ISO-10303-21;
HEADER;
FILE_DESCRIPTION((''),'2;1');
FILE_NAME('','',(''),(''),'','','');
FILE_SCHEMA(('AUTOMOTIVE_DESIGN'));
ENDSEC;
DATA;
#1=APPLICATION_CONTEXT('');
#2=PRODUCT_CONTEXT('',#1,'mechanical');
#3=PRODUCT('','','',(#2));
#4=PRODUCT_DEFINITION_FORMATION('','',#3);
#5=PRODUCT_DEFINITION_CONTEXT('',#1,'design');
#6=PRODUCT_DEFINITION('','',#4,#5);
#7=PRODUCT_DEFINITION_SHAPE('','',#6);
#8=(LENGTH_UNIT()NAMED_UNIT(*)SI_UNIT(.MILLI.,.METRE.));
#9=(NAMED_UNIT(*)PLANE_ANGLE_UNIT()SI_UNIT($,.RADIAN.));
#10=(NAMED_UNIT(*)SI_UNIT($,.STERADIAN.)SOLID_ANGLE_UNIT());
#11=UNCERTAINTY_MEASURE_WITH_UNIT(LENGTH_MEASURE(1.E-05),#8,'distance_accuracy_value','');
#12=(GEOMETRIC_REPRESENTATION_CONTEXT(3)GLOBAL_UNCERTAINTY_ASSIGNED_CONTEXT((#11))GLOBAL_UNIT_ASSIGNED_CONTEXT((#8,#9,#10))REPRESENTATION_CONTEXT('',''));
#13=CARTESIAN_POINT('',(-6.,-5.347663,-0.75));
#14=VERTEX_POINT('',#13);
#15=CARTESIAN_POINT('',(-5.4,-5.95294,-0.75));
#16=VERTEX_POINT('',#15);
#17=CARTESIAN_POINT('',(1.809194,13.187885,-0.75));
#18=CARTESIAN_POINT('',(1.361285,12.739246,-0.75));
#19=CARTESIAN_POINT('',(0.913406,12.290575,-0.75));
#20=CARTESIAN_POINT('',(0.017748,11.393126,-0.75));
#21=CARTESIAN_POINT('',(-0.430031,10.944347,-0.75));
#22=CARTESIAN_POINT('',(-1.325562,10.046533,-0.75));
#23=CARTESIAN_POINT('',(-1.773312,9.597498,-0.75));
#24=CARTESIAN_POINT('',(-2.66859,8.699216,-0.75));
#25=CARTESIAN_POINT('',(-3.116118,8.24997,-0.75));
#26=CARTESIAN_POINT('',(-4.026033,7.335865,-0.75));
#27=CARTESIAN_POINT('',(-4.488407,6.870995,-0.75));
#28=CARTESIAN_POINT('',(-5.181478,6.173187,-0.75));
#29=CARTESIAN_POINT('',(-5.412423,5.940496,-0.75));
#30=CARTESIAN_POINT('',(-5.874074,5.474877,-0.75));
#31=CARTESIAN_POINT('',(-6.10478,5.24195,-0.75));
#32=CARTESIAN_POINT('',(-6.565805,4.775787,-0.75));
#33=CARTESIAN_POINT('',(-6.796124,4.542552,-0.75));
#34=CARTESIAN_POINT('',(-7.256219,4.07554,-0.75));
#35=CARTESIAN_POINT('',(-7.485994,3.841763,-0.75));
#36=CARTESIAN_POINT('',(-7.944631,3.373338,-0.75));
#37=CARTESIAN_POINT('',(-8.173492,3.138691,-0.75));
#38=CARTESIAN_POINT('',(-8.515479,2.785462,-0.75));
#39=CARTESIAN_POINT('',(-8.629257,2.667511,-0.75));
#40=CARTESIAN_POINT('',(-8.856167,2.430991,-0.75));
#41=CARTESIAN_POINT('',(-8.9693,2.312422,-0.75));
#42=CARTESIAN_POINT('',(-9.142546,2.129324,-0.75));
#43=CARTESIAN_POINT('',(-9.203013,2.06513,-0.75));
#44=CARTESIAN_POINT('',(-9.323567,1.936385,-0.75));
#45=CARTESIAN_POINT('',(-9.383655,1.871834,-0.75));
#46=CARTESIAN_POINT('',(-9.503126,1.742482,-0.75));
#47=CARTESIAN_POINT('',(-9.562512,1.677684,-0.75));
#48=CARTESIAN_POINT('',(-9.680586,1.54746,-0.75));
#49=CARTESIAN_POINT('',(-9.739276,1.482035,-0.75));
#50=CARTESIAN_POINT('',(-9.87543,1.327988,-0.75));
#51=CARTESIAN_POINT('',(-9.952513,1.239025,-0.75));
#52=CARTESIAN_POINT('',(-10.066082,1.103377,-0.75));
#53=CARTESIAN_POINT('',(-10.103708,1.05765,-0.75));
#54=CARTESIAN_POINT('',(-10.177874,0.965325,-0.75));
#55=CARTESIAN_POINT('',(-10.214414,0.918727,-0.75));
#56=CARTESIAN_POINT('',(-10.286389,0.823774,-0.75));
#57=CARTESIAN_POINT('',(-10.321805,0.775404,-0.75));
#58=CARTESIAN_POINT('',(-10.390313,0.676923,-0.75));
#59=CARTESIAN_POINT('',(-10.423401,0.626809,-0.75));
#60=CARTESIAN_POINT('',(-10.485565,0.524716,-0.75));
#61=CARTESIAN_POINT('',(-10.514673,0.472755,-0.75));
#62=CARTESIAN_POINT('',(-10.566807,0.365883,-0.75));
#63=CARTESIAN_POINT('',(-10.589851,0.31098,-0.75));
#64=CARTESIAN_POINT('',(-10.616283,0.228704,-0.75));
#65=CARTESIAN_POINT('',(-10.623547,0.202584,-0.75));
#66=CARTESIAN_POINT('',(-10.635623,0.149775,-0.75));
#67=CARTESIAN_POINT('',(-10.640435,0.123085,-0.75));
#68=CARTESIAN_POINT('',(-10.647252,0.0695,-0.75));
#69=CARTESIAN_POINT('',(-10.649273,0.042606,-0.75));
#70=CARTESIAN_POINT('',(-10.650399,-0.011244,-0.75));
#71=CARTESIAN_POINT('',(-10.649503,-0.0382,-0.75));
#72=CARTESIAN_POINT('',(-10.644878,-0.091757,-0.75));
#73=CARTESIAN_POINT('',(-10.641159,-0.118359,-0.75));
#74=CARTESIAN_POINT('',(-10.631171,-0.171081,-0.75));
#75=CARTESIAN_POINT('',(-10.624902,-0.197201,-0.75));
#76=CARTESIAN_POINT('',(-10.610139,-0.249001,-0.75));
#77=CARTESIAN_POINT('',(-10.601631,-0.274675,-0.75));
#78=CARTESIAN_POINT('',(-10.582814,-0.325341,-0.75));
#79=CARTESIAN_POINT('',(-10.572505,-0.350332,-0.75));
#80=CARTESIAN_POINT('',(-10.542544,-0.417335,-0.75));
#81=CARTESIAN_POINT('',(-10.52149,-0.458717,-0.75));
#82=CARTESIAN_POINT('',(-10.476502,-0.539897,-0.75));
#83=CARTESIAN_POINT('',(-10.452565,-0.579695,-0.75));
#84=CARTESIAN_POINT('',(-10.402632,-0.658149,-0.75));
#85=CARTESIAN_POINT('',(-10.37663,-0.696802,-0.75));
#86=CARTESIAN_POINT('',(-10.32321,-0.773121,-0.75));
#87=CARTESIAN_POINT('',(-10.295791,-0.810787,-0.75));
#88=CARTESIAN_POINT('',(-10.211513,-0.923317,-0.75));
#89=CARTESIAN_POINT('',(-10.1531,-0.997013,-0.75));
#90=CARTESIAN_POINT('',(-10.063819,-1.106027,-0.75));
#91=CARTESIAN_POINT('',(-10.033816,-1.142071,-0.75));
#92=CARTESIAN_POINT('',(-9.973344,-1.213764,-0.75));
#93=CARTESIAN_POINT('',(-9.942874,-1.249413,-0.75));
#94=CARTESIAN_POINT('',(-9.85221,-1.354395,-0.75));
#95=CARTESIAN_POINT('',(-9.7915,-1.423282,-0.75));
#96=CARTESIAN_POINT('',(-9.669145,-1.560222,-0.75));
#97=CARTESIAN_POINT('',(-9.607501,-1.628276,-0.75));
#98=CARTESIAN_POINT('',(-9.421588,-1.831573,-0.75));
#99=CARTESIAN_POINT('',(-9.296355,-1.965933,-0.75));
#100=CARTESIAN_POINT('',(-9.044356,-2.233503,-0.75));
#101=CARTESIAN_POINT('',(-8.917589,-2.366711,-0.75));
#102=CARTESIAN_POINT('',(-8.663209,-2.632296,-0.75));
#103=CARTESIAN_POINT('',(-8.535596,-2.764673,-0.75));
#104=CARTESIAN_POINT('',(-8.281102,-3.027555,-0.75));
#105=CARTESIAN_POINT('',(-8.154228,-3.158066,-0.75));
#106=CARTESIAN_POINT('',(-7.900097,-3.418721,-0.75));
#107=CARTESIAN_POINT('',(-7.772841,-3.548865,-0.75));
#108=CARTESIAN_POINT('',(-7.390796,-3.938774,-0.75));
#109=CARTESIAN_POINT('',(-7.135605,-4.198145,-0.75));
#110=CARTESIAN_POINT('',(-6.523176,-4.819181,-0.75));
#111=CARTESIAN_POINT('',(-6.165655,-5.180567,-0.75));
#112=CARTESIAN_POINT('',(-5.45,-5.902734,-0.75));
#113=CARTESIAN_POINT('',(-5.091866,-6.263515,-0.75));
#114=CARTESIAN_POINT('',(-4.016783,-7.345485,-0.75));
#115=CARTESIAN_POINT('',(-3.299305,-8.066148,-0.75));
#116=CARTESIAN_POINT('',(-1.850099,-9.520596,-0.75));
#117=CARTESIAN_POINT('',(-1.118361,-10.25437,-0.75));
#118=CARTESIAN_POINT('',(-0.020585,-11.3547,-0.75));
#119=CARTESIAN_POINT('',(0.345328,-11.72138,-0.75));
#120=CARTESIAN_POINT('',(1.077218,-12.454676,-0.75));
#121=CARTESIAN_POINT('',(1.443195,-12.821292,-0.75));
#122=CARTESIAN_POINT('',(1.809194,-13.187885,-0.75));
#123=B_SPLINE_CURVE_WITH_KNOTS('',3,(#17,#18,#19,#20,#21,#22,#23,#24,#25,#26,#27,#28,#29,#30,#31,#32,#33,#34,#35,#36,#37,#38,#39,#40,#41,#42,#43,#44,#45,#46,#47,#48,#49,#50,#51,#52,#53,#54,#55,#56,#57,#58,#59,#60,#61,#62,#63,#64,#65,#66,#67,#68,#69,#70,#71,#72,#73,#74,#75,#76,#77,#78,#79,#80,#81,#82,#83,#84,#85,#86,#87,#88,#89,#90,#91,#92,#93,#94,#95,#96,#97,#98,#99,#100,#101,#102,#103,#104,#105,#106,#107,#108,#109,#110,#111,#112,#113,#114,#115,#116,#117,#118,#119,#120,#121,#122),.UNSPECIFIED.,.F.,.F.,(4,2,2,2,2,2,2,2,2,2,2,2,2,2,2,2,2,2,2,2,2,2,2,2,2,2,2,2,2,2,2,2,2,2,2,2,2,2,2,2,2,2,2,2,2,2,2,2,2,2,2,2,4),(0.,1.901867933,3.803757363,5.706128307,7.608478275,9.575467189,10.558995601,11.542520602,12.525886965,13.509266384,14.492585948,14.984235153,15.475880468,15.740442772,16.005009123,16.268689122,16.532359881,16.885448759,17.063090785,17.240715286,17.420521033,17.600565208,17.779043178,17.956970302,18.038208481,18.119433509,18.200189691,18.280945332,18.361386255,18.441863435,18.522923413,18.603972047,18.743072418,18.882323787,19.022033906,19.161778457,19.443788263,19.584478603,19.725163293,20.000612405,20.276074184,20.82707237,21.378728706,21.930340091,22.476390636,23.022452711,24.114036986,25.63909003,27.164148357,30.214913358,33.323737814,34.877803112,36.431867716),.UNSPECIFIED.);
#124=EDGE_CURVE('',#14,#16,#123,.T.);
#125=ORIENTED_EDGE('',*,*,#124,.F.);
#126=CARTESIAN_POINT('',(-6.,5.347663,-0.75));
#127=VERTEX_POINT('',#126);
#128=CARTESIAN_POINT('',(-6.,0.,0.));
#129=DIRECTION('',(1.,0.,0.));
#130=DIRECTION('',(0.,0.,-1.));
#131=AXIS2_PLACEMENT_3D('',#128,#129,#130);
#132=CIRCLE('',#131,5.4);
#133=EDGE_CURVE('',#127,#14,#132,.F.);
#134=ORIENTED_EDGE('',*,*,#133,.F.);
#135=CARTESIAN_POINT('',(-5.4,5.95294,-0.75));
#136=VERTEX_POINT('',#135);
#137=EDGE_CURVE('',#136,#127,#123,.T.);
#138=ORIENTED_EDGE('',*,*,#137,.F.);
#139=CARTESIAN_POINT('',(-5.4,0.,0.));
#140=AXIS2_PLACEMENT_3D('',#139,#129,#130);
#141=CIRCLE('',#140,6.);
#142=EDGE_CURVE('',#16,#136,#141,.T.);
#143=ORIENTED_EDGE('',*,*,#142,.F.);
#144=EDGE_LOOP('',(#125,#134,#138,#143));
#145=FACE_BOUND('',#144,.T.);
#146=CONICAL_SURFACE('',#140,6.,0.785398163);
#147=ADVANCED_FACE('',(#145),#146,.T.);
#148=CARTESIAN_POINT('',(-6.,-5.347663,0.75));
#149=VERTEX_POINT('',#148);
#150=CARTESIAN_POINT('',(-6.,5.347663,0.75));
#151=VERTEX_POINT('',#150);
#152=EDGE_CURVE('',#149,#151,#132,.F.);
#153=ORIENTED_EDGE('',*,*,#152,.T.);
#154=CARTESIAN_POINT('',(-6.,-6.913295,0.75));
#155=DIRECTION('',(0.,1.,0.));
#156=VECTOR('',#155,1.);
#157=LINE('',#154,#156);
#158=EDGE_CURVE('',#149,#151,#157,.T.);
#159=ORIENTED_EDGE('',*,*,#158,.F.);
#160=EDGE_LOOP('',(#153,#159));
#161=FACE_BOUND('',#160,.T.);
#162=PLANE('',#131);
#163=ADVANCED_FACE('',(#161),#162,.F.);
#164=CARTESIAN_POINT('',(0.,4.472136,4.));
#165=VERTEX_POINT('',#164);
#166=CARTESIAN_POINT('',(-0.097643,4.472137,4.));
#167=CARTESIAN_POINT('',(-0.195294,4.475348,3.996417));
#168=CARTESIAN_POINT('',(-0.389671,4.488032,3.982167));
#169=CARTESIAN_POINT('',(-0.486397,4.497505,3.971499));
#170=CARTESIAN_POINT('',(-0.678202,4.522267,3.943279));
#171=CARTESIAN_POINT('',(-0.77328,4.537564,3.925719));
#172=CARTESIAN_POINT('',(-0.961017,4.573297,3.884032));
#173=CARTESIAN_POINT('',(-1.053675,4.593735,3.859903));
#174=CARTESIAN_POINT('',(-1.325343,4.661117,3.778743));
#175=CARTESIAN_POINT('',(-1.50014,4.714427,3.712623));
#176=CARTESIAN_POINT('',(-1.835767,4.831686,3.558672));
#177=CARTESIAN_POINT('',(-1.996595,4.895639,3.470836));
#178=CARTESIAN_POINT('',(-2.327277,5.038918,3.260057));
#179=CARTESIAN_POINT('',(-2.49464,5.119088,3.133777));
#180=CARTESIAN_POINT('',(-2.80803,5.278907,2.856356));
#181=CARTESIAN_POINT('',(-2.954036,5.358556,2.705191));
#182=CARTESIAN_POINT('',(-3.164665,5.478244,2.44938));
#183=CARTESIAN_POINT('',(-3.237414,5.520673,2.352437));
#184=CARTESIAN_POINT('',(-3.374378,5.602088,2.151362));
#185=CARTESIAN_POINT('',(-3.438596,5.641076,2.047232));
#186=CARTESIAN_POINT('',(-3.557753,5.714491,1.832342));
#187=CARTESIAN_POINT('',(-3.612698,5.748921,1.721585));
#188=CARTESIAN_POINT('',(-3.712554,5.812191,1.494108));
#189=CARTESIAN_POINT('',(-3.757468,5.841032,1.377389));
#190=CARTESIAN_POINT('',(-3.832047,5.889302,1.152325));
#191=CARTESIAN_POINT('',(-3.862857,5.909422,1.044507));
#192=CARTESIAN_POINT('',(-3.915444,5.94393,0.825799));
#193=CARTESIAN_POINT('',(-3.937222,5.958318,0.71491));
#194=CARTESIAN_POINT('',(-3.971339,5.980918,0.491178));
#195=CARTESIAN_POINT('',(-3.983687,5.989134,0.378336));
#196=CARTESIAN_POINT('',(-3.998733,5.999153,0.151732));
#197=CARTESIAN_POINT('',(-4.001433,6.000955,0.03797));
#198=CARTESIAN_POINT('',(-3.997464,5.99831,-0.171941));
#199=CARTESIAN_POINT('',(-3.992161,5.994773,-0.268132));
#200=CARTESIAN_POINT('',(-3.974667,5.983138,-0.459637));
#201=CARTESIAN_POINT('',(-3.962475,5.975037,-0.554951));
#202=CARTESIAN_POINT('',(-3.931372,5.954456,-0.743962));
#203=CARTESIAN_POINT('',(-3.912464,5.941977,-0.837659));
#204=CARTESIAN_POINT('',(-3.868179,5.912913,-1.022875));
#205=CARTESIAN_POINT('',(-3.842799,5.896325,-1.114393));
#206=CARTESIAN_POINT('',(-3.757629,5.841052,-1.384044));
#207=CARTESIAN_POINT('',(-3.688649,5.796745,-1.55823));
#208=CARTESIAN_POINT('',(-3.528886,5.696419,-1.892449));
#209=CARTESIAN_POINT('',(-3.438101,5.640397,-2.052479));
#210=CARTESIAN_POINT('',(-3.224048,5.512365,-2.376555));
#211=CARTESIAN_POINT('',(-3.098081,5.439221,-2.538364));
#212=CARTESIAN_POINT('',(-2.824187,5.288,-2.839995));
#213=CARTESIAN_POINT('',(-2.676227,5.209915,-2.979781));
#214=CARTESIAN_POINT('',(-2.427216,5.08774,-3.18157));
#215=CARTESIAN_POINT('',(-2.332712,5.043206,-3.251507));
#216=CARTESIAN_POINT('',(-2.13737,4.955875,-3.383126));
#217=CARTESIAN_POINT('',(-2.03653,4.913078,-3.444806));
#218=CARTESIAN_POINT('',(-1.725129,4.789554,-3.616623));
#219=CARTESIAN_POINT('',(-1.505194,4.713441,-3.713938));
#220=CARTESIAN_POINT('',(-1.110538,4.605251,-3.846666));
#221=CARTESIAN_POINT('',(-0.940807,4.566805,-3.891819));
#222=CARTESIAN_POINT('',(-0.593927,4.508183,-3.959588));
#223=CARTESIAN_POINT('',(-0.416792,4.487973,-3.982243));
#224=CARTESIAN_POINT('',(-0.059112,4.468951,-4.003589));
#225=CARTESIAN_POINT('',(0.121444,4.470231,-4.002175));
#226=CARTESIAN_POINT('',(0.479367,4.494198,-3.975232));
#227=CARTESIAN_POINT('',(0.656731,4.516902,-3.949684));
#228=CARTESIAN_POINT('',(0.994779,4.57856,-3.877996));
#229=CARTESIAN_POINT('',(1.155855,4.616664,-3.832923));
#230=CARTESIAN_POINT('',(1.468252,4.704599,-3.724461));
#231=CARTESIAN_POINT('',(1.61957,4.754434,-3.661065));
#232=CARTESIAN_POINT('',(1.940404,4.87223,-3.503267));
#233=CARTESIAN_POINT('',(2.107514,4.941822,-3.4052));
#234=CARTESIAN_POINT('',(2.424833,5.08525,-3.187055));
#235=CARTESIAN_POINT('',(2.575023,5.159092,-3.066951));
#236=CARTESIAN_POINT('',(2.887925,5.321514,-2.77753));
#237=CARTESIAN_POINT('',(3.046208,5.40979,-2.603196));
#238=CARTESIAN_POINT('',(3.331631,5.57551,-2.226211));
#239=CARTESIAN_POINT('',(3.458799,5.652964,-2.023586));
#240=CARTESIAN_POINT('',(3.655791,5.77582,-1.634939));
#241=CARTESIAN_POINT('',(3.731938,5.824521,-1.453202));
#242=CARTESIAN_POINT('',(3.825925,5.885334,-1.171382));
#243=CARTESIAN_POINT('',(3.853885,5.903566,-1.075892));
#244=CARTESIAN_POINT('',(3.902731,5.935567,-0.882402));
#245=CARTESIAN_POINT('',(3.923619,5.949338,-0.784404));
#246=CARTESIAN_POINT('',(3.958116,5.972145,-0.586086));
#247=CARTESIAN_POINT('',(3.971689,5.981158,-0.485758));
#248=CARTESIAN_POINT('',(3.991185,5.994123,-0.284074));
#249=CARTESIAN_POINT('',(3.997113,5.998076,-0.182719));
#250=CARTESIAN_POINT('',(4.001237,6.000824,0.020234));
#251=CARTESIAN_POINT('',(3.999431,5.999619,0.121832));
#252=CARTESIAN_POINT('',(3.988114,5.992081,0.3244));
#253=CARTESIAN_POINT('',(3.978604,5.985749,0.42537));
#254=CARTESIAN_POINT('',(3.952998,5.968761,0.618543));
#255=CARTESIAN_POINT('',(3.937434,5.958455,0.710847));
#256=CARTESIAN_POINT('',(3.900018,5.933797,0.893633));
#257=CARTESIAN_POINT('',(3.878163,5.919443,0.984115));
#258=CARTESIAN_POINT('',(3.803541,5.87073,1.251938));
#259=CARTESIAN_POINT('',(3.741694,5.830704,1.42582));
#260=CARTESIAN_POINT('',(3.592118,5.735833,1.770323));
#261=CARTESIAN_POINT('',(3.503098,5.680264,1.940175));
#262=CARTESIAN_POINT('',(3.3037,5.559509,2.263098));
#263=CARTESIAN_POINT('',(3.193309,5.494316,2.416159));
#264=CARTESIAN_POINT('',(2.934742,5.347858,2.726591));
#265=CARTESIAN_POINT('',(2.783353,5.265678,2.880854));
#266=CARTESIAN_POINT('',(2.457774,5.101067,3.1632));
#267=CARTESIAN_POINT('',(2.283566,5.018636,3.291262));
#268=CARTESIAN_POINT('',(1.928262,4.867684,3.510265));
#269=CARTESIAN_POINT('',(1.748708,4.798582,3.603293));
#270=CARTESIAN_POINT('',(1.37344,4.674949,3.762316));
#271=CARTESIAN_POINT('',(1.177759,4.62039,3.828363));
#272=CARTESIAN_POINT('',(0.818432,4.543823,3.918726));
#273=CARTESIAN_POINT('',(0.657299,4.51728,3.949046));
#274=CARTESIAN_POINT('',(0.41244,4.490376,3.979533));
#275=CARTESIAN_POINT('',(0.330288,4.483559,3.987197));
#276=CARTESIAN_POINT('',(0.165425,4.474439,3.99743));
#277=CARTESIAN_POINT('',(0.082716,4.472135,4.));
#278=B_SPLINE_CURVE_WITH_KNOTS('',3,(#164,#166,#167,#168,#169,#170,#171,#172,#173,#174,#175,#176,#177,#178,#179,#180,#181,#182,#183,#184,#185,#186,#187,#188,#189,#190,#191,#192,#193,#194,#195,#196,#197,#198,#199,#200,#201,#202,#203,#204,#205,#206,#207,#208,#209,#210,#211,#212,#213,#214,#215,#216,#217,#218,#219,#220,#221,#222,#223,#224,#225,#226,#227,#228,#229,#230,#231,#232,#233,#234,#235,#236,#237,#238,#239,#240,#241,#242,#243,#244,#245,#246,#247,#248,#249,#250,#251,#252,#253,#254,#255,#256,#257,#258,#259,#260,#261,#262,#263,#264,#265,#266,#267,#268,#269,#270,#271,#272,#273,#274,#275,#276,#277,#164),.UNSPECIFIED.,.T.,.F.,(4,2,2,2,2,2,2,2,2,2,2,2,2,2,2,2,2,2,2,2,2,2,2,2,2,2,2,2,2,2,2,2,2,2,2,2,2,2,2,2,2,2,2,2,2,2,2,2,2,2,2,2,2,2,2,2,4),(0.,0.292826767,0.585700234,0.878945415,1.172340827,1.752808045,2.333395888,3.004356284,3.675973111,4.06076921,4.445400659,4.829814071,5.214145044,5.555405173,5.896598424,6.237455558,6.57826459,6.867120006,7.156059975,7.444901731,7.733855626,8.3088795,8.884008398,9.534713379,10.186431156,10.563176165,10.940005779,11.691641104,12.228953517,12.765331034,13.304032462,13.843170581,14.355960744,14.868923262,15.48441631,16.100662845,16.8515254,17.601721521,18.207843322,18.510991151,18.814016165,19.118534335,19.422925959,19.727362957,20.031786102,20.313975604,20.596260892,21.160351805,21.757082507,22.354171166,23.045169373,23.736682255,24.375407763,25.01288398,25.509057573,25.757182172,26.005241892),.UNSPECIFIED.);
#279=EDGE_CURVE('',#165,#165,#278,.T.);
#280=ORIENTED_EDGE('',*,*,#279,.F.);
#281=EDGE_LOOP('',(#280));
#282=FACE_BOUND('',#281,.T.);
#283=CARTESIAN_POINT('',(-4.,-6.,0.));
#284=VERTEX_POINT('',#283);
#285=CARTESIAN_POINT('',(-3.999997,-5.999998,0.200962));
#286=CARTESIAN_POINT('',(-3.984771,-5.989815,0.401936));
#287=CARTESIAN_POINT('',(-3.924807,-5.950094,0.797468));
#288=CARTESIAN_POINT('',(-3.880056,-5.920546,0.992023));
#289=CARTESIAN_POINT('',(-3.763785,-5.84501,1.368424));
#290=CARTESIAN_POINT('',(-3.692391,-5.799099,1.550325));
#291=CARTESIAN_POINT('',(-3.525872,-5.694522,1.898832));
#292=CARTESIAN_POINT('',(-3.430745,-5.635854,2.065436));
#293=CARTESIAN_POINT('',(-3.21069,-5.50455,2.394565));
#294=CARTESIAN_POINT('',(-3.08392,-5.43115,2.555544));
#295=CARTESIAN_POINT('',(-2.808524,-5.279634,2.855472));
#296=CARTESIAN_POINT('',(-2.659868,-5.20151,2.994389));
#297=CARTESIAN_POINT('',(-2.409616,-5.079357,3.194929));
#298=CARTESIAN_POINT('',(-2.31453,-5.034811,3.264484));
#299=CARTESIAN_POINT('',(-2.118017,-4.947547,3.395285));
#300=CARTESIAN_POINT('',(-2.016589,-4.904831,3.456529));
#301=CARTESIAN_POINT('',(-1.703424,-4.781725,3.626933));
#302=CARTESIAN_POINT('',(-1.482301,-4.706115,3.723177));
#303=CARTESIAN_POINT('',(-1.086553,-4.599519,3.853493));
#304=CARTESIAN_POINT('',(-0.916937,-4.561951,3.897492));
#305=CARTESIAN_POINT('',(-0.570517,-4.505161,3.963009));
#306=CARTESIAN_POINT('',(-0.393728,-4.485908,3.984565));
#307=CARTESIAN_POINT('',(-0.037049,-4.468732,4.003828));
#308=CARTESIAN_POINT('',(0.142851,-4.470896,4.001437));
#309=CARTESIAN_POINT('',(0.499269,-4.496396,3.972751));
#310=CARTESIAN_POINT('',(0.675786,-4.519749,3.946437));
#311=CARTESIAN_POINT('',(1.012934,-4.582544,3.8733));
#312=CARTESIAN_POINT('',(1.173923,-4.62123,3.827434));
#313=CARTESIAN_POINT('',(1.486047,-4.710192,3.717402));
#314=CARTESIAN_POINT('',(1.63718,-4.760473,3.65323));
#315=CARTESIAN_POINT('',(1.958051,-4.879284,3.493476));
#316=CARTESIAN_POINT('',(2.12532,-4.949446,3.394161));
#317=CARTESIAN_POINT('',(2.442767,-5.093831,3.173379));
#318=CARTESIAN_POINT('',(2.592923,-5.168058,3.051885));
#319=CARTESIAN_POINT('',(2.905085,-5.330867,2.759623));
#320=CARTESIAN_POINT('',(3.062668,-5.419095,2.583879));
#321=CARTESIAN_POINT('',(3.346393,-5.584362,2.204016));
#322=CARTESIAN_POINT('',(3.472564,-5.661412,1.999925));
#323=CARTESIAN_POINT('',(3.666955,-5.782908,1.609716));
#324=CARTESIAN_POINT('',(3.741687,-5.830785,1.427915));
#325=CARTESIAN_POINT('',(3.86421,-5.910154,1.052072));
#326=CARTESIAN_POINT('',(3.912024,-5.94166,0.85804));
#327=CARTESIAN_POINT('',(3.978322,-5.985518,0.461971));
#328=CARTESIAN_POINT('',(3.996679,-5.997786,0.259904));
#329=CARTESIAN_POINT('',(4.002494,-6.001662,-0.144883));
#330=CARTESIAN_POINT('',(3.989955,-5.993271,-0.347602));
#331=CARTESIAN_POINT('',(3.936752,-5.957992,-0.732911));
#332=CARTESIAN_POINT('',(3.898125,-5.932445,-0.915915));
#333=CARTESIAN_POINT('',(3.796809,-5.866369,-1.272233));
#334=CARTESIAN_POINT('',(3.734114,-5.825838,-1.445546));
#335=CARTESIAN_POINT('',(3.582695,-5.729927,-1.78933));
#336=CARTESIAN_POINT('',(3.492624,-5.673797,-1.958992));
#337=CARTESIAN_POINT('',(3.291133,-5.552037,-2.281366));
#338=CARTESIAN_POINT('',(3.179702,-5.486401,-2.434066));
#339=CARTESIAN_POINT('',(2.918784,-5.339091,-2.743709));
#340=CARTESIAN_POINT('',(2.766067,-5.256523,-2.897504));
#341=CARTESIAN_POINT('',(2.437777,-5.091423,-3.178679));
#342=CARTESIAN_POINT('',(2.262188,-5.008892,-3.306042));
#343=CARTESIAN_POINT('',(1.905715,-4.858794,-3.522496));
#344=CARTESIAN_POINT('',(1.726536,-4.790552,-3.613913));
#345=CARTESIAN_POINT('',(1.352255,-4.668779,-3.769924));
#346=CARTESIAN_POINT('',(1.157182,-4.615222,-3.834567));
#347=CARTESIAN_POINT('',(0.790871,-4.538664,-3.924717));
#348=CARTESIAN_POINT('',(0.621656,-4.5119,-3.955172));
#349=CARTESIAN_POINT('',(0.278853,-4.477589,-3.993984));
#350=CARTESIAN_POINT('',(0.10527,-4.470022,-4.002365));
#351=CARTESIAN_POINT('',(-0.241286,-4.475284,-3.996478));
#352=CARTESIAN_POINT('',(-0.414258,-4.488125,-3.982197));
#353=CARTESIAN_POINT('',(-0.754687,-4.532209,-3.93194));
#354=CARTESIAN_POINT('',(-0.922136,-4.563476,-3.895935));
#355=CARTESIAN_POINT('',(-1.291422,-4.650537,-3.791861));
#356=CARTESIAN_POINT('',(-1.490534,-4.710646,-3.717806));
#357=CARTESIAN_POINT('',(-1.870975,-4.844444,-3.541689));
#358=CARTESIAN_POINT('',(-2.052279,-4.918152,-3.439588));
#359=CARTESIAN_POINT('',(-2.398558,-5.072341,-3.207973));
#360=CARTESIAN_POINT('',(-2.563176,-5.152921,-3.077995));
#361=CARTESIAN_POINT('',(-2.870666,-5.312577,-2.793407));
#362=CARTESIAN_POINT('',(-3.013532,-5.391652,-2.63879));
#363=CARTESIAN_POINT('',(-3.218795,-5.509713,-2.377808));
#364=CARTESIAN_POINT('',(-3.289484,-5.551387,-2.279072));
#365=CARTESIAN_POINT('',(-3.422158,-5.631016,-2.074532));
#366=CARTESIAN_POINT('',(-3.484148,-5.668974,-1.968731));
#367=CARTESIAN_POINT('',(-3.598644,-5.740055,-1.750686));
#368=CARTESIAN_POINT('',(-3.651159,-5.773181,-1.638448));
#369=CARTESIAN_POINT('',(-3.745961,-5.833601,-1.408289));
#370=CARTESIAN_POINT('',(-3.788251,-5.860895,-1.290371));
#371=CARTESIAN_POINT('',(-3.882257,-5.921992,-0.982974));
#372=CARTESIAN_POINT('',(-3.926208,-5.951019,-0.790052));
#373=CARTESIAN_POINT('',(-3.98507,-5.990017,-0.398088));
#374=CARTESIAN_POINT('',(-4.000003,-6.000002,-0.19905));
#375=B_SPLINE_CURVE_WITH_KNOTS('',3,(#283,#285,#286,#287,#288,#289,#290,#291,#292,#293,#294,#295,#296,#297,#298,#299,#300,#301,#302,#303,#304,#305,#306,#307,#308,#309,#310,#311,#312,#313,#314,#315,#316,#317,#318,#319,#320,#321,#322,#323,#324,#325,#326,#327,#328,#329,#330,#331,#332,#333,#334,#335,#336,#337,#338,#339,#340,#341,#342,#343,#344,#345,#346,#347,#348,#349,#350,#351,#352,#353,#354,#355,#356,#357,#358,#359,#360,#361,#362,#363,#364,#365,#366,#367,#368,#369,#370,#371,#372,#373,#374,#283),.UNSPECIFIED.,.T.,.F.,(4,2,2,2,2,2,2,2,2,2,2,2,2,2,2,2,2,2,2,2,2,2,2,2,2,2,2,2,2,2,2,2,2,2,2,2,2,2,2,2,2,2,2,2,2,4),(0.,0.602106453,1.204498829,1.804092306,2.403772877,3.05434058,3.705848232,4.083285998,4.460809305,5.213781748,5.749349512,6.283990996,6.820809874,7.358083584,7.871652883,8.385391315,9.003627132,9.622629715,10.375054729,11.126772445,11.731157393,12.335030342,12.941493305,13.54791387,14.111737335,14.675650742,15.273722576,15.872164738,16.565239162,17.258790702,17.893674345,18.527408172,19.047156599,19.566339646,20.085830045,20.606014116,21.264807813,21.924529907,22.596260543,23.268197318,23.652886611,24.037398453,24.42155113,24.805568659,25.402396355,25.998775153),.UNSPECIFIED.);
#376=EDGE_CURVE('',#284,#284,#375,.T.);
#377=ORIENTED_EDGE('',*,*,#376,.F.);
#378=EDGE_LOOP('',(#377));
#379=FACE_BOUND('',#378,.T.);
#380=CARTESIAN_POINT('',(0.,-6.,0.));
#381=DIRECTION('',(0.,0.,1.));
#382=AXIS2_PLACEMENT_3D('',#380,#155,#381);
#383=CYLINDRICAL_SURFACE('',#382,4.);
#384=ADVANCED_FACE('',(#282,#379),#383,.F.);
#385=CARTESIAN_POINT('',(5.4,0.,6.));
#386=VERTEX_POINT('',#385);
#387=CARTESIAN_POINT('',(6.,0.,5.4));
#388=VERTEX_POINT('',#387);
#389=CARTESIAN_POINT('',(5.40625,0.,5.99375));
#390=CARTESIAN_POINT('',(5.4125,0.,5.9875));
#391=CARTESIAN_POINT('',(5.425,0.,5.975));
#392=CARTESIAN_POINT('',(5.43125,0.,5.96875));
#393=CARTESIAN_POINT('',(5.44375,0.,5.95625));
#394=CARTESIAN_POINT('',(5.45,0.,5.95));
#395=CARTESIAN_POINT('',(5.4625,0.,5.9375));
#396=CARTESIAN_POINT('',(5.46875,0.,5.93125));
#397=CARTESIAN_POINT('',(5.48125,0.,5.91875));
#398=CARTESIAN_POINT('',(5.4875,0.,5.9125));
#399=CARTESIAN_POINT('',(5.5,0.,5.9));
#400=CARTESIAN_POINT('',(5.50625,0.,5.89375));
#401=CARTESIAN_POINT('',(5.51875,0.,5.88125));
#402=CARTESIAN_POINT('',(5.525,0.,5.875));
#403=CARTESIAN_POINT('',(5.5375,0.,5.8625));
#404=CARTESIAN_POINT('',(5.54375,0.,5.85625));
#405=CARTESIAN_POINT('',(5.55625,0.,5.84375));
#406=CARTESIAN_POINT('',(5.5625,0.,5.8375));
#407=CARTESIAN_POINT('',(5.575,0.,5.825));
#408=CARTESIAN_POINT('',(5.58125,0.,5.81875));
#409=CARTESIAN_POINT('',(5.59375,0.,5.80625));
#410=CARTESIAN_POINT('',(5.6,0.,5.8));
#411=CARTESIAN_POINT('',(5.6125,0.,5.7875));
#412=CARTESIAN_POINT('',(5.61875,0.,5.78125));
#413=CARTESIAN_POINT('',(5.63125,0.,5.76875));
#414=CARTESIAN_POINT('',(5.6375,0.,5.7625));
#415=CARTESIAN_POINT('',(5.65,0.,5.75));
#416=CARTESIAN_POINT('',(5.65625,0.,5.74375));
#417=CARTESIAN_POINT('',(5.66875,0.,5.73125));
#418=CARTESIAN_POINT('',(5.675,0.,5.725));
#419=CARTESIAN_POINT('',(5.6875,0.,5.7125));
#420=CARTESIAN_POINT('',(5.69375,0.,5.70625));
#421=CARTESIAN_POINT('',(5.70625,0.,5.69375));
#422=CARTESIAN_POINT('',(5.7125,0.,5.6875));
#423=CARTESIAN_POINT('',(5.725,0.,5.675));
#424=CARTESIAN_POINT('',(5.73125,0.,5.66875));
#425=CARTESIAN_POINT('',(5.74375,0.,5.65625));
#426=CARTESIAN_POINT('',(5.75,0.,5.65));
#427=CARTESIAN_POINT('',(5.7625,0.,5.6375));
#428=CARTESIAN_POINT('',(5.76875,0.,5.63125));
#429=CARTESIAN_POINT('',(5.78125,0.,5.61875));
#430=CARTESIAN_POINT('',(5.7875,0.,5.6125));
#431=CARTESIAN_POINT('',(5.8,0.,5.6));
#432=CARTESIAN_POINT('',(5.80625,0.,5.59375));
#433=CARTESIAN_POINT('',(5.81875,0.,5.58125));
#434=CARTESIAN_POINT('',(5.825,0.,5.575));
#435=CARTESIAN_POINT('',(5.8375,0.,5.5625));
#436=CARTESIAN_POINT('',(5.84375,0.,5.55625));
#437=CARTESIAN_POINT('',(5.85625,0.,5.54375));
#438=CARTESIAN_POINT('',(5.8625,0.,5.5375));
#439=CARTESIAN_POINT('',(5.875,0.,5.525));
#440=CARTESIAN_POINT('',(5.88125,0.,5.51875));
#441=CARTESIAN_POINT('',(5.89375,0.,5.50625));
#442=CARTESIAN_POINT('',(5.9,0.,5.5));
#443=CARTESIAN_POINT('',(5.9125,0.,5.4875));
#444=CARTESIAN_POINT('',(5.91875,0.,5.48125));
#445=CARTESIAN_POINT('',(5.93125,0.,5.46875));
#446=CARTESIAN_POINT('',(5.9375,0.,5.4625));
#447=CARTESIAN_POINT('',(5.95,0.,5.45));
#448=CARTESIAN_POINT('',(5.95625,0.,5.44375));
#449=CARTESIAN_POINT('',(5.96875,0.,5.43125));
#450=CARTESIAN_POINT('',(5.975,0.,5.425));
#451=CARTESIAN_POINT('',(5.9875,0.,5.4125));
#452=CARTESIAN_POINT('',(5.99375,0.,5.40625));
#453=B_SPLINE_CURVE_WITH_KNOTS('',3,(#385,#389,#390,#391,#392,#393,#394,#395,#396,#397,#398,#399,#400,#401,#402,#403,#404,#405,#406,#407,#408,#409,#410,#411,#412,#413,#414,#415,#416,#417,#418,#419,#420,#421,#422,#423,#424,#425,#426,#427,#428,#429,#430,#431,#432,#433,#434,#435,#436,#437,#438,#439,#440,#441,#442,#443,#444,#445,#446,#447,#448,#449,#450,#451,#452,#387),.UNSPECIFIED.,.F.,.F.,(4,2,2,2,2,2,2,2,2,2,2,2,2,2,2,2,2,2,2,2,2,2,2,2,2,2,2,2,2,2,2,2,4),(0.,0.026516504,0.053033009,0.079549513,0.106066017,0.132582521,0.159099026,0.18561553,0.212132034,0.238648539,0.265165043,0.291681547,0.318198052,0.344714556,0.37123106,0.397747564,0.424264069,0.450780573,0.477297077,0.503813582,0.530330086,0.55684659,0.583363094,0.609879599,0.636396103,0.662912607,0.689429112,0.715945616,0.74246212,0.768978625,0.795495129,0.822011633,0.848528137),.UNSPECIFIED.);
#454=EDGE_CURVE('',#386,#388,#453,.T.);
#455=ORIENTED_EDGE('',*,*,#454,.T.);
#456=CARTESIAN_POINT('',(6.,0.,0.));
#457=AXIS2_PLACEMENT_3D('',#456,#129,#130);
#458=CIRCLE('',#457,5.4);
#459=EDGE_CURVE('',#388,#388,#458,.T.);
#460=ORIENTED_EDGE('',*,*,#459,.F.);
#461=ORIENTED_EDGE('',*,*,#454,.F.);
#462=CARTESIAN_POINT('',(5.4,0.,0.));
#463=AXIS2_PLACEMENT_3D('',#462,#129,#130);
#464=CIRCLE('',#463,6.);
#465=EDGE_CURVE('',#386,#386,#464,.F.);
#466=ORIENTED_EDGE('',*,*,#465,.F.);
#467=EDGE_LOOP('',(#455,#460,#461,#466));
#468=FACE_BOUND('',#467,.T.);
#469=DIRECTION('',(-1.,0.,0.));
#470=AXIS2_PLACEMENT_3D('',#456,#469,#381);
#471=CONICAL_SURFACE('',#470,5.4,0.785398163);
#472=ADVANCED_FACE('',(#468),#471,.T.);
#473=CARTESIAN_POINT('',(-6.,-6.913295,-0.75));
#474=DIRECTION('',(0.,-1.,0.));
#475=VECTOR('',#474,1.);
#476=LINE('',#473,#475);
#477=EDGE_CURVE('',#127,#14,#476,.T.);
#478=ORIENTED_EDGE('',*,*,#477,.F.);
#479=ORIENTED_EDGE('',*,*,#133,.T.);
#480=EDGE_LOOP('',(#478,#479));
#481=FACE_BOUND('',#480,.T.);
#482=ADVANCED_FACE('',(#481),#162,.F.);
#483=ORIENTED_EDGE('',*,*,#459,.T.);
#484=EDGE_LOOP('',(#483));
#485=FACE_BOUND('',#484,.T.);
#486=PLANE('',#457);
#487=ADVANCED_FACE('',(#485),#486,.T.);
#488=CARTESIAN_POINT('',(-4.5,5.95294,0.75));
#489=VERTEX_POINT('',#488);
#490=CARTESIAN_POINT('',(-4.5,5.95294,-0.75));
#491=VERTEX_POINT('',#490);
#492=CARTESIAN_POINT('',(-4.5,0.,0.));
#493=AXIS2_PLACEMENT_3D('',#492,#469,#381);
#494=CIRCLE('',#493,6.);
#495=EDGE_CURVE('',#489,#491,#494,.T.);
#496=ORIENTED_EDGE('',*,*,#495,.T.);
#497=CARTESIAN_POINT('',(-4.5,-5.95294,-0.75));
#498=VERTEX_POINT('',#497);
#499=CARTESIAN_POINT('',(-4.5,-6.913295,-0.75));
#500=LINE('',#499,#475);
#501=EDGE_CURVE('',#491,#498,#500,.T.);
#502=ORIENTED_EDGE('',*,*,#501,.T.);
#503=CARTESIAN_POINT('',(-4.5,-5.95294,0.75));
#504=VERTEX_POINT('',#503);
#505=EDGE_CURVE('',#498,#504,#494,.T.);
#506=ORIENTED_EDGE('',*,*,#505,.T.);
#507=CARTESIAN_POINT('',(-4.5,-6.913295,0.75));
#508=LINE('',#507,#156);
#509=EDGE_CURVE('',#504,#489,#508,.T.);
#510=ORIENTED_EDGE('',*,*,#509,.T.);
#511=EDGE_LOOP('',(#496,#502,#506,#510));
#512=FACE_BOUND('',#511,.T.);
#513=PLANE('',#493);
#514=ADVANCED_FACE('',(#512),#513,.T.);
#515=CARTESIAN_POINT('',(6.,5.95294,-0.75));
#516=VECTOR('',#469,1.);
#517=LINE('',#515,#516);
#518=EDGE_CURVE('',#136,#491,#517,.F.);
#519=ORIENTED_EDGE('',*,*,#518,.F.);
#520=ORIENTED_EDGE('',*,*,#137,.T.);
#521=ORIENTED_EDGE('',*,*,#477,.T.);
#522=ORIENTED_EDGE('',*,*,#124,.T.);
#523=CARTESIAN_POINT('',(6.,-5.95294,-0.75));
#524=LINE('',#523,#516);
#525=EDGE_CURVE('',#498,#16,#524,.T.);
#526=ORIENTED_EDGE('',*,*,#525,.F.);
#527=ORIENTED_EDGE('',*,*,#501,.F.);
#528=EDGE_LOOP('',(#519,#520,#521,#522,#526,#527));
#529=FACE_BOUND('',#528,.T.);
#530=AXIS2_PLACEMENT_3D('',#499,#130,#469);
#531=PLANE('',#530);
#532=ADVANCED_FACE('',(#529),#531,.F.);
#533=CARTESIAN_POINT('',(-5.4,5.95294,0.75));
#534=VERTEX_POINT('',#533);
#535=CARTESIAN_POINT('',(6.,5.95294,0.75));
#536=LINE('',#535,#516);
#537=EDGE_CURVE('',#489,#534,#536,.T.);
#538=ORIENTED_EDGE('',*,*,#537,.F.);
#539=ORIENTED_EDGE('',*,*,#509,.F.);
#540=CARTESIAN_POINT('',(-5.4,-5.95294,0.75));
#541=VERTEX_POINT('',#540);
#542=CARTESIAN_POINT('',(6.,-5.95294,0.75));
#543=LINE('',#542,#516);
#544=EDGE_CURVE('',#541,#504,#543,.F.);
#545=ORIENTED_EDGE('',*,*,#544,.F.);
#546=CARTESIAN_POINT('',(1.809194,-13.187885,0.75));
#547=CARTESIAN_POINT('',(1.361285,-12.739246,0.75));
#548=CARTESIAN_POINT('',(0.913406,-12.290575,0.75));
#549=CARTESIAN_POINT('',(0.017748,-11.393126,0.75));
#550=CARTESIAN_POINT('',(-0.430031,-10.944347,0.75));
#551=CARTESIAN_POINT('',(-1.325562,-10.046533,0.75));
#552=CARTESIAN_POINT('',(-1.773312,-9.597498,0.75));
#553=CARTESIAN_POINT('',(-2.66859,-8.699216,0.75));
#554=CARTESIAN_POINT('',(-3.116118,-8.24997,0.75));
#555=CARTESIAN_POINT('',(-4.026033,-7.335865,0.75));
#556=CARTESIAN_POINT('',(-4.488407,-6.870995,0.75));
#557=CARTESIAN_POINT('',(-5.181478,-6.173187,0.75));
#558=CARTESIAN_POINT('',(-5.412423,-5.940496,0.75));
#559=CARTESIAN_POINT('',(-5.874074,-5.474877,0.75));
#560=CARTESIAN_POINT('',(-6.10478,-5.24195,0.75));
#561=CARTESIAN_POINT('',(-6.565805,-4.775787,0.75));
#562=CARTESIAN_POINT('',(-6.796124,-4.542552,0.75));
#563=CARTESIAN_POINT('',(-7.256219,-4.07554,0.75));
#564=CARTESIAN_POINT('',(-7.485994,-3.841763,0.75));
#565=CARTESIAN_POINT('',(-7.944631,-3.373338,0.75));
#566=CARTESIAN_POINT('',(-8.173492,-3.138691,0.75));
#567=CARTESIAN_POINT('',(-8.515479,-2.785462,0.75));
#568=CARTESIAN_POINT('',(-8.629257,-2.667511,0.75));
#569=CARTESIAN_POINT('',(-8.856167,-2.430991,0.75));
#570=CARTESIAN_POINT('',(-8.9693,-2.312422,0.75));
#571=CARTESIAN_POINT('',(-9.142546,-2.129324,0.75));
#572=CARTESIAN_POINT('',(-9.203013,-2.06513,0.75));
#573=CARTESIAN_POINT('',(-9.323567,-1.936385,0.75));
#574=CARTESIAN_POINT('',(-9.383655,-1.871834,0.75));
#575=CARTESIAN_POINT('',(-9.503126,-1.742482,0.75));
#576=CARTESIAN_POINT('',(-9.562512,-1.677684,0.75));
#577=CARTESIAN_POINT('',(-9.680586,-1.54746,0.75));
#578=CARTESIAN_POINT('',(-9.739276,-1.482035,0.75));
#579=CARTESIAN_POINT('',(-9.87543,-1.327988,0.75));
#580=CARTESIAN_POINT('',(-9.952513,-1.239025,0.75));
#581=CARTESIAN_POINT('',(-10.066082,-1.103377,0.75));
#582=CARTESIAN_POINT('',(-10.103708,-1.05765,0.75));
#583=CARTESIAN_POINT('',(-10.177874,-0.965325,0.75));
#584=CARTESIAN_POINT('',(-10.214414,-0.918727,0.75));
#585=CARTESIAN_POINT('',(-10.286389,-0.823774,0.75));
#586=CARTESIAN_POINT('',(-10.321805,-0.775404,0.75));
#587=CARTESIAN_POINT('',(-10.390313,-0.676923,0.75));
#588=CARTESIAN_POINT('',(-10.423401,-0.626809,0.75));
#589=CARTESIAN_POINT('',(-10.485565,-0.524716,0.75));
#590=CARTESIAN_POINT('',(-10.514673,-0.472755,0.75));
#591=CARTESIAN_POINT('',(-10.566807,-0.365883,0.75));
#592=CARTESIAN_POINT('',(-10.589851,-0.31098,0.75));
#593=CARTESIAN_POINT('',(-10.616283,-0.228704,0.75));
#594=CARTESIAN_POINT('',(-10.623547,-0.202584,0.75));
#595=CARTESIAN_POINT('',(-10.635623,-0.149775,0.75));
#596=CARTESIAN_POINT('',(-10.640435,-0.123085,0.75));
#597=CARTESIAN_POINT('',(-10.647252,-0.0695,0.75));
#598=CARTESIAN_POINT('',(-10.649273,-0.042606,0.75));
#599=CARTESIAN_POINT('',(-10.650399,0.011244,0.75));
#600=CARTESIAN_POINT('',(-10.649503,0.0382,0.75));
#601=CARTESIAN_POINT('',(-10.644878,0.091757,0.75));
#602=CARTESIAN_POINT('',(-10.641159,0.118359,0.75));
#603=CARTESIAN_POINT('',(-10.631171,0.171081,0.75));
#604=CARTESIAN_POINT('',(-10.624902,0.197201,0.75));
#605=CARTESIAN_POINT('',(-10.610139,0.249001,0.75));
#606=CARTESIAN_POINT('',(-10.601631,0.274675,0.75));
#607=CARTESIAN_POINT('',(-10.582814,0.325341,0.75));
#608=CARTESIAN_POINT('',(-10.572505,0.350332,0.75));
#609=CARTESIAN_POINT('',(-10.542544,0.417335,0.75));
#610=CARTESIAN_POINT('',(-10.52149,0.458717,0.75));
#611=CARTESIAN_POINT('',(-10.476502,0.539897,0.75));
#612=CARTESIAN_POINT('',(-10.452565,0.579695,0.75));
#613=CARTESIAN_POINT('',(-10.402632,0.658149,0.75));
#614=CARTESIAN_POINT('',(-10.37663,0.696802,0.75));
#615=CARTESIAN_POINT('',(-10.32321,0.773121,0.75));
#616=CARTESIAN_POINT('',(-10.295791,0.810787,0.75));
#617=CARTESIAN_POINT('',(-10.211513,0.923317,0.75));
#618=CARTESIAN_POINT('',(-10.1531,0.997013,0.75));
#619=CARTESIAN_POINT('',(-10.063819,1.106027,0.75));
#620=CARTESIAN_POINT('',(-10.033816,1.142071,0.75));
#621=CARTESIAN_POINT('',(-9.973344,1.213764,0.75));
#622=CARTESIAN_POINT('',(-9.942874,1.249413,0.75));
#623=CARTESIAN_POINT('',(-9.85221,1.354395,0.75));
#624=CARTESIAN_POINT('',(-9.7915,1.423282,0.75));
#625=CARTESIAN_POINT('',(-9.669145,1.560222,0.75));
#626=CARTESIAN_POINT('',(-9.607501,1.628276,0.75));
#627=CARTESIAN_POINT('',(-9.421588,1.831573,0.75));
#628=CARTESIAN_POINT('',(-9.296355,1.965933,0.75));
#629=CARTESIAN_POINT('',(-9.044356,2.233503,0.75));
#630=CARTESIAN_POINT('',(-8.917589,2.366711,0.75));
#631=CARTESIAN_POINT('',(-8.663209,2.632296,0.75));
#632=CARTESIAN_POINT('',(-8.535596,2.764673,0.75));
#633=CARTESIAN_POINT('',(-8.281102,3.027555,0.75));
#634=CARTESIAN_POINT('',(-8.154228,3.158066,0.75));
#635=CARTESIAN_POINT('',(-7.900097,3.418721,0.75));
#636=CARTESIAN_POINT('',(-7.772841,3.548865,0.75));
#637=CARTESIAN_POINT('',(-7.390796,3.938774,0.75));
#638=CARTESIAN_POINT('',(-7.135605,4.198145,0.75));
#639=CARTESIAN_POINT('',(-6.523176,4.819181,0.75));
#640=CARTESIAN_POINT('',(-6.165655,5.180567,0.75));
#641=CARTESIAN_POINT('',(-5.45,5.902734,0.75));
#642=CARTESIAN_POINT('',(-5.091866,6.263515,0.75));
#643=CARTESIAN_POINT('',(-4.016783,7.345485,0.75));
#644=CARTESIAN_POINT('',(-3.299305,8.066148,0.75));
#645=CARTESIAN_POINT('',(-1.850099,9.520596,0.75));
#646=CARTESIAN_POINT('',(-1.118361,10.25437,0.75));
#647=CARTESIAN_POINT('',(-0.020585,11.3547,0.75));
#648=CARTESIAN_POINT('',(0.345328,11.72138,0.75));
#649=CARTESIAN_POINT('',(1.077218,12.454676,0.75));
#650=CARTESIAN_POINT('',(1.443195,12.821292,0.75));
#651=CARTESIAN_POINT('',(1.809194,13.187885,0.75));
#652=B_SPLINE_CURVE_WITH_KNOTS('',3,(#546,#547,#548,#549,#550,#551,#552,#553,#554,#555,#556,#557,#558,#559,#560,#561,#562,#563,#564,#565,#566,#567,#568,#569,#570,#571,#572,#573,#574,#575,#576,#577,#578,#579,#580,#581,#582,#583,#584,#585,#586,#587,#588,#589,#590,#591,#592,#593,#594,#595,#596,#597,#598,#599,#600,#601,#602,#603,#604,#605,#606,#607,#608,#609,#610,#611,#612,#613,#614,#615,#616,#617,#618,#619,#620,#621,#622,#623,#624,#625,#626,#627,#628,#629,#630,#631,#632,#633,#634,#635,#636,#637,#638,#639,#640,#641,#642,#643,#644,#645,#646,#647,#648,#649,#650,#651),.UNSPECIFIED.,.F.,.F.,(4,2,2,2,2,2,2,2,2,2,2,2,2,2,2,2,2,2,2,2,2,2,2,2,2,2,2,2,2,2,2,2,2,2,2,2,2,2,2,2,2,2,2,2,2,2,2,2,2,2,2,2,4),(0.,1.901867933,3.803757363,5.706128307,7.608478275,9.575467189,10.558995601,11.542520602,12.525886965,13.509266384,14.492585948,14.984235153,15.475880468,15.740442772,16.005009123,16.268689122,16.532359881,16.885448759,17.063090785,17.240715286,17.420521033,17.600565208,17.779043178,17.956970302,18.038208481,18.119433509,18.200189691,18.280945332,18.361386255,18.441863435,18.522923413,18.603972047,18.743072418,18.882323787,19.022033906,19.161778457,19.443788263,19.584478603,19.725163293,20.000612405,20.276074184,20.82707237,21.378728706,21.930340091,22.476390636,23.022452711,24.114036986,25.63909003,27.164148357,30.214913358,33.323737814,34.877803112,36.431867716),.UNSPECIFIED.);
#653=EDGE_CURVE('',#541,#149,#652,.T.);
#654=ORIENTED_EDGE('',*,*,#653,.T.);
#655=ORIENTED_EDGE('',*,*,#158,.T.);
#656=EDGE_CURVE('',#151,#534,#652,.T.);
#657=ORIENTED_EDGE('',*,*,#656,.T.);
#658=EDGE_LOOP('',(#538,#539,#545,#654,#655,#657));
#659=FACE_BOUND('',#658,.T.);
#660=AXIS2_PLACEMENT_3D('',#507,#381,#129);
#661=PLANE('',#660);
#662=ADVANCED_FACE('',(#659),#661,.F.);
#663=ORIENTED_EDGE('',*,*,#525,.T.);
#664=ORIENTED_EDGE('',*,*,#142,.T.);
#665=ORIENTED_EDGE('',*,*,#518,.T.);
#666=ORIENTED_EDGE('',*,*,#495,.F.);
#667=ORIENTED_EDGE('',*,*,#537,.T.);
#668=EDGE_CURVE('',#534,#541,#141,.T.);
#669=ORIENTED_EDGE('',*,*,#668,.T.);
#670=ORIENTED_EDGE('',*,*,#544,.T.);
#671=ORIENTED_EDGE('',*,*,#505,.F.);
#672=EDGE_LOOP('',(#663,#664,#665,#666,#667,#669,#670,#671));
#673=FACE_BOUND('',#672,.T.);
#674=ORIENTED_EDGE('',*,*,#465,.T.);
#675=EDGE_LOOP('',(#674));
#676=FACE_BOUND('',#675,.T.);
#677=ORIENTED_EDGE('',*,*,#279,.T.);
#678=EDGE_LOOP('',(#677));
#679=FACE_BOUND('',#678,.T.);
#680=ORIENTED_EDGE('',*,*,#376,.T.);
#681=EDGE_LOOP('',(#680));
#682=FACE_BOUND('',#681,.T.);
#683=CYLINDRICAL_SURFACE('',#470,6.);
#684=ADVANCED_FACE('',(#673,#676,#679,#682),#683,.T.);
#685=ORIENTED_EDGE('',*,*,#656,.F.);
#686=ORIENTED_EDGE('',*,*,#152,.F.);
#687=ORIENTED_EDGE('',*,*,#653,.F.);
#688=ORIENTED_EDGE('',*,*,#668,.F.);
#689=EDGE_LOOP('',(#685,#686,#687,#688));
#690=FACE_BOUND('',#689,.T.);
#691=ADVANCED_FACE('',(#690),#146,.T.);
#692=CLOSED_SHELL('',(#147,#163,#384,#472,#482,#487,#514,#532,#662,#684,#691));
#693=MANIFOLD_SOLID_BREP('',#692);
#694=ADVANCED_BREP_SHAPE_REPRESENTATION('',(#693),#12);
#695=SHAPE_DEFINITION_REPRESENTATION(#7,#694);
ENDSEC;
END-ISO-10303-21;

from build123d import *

# Parameters (mm, degrees)
SKETCH1_R               = 6
BOSS_EXTRUDE1_DEPTH     = 6
CHAMFER1_SIZE           = 0.6
CUT_EXTRUDE1_DEPTH      = 11.392304845
CUT_EXTRUDE1_DEPTH_BACK = 11.392304845
SKETCH2_R               = 4
SKETCH3_W               = 1.5
SKETCH3_H               = 13.826589008
CUT_EXTRUDE2_DEPTH      = 1.5


with BuildPart() as part:
    # Sketch1 → Boss-Extrude1 (new, symmetric)
    with BuildSketch(Plane(origin=(0, 0, 0), x_dir=(0, 0, -1), z_dir=(1, 0, 0))):
        Circle(SKETCH1_R)
    extrude(amount=BOSS_EXTRUDE1_DEPTH, both=True)

    # Chamfer1
    chamfer1_edges = [part.edges().sort_by_distance(p)[0] for p in [
        (-6, 0, 6),
        (6, 0, 6),
    ]]
    chamfer(chamfer1_edges, length=CHAMFER1_SIZE)

    # Sketch2 → Cut-Extrude1 (cut, two sides: drawn at the far end of the back side and taken through both)
    with BuildSketch(Plane(origin=(0, 0, 0), x_dir=(1, 0, 0), z_dir=(0, 1, 0)).offset(-CUT_EXTRUDE1_DEPTH_BACK)):
        with Locations(Location((0, 0, 0), (0, 0, 270))):
            Circle(SKETCH2_R)
    extrude(amount=CUT_EXTRUDE1_DEPTH + CUT_EXTRUDE1_DEPTH_BACK, mode=Mode.SUBTRACT)

    # Sketch3 → Cut-Extrude2 (cut)
    with BuildSketch(Plane.ZY.offset(6)):
        Rectangle(SKETCH3_W, SKETCH3_H)
    extrude(amount=-CUT_EXTRUDE2_DEPTH, mode=Mode.SUBTRACT)


solid = part.part
